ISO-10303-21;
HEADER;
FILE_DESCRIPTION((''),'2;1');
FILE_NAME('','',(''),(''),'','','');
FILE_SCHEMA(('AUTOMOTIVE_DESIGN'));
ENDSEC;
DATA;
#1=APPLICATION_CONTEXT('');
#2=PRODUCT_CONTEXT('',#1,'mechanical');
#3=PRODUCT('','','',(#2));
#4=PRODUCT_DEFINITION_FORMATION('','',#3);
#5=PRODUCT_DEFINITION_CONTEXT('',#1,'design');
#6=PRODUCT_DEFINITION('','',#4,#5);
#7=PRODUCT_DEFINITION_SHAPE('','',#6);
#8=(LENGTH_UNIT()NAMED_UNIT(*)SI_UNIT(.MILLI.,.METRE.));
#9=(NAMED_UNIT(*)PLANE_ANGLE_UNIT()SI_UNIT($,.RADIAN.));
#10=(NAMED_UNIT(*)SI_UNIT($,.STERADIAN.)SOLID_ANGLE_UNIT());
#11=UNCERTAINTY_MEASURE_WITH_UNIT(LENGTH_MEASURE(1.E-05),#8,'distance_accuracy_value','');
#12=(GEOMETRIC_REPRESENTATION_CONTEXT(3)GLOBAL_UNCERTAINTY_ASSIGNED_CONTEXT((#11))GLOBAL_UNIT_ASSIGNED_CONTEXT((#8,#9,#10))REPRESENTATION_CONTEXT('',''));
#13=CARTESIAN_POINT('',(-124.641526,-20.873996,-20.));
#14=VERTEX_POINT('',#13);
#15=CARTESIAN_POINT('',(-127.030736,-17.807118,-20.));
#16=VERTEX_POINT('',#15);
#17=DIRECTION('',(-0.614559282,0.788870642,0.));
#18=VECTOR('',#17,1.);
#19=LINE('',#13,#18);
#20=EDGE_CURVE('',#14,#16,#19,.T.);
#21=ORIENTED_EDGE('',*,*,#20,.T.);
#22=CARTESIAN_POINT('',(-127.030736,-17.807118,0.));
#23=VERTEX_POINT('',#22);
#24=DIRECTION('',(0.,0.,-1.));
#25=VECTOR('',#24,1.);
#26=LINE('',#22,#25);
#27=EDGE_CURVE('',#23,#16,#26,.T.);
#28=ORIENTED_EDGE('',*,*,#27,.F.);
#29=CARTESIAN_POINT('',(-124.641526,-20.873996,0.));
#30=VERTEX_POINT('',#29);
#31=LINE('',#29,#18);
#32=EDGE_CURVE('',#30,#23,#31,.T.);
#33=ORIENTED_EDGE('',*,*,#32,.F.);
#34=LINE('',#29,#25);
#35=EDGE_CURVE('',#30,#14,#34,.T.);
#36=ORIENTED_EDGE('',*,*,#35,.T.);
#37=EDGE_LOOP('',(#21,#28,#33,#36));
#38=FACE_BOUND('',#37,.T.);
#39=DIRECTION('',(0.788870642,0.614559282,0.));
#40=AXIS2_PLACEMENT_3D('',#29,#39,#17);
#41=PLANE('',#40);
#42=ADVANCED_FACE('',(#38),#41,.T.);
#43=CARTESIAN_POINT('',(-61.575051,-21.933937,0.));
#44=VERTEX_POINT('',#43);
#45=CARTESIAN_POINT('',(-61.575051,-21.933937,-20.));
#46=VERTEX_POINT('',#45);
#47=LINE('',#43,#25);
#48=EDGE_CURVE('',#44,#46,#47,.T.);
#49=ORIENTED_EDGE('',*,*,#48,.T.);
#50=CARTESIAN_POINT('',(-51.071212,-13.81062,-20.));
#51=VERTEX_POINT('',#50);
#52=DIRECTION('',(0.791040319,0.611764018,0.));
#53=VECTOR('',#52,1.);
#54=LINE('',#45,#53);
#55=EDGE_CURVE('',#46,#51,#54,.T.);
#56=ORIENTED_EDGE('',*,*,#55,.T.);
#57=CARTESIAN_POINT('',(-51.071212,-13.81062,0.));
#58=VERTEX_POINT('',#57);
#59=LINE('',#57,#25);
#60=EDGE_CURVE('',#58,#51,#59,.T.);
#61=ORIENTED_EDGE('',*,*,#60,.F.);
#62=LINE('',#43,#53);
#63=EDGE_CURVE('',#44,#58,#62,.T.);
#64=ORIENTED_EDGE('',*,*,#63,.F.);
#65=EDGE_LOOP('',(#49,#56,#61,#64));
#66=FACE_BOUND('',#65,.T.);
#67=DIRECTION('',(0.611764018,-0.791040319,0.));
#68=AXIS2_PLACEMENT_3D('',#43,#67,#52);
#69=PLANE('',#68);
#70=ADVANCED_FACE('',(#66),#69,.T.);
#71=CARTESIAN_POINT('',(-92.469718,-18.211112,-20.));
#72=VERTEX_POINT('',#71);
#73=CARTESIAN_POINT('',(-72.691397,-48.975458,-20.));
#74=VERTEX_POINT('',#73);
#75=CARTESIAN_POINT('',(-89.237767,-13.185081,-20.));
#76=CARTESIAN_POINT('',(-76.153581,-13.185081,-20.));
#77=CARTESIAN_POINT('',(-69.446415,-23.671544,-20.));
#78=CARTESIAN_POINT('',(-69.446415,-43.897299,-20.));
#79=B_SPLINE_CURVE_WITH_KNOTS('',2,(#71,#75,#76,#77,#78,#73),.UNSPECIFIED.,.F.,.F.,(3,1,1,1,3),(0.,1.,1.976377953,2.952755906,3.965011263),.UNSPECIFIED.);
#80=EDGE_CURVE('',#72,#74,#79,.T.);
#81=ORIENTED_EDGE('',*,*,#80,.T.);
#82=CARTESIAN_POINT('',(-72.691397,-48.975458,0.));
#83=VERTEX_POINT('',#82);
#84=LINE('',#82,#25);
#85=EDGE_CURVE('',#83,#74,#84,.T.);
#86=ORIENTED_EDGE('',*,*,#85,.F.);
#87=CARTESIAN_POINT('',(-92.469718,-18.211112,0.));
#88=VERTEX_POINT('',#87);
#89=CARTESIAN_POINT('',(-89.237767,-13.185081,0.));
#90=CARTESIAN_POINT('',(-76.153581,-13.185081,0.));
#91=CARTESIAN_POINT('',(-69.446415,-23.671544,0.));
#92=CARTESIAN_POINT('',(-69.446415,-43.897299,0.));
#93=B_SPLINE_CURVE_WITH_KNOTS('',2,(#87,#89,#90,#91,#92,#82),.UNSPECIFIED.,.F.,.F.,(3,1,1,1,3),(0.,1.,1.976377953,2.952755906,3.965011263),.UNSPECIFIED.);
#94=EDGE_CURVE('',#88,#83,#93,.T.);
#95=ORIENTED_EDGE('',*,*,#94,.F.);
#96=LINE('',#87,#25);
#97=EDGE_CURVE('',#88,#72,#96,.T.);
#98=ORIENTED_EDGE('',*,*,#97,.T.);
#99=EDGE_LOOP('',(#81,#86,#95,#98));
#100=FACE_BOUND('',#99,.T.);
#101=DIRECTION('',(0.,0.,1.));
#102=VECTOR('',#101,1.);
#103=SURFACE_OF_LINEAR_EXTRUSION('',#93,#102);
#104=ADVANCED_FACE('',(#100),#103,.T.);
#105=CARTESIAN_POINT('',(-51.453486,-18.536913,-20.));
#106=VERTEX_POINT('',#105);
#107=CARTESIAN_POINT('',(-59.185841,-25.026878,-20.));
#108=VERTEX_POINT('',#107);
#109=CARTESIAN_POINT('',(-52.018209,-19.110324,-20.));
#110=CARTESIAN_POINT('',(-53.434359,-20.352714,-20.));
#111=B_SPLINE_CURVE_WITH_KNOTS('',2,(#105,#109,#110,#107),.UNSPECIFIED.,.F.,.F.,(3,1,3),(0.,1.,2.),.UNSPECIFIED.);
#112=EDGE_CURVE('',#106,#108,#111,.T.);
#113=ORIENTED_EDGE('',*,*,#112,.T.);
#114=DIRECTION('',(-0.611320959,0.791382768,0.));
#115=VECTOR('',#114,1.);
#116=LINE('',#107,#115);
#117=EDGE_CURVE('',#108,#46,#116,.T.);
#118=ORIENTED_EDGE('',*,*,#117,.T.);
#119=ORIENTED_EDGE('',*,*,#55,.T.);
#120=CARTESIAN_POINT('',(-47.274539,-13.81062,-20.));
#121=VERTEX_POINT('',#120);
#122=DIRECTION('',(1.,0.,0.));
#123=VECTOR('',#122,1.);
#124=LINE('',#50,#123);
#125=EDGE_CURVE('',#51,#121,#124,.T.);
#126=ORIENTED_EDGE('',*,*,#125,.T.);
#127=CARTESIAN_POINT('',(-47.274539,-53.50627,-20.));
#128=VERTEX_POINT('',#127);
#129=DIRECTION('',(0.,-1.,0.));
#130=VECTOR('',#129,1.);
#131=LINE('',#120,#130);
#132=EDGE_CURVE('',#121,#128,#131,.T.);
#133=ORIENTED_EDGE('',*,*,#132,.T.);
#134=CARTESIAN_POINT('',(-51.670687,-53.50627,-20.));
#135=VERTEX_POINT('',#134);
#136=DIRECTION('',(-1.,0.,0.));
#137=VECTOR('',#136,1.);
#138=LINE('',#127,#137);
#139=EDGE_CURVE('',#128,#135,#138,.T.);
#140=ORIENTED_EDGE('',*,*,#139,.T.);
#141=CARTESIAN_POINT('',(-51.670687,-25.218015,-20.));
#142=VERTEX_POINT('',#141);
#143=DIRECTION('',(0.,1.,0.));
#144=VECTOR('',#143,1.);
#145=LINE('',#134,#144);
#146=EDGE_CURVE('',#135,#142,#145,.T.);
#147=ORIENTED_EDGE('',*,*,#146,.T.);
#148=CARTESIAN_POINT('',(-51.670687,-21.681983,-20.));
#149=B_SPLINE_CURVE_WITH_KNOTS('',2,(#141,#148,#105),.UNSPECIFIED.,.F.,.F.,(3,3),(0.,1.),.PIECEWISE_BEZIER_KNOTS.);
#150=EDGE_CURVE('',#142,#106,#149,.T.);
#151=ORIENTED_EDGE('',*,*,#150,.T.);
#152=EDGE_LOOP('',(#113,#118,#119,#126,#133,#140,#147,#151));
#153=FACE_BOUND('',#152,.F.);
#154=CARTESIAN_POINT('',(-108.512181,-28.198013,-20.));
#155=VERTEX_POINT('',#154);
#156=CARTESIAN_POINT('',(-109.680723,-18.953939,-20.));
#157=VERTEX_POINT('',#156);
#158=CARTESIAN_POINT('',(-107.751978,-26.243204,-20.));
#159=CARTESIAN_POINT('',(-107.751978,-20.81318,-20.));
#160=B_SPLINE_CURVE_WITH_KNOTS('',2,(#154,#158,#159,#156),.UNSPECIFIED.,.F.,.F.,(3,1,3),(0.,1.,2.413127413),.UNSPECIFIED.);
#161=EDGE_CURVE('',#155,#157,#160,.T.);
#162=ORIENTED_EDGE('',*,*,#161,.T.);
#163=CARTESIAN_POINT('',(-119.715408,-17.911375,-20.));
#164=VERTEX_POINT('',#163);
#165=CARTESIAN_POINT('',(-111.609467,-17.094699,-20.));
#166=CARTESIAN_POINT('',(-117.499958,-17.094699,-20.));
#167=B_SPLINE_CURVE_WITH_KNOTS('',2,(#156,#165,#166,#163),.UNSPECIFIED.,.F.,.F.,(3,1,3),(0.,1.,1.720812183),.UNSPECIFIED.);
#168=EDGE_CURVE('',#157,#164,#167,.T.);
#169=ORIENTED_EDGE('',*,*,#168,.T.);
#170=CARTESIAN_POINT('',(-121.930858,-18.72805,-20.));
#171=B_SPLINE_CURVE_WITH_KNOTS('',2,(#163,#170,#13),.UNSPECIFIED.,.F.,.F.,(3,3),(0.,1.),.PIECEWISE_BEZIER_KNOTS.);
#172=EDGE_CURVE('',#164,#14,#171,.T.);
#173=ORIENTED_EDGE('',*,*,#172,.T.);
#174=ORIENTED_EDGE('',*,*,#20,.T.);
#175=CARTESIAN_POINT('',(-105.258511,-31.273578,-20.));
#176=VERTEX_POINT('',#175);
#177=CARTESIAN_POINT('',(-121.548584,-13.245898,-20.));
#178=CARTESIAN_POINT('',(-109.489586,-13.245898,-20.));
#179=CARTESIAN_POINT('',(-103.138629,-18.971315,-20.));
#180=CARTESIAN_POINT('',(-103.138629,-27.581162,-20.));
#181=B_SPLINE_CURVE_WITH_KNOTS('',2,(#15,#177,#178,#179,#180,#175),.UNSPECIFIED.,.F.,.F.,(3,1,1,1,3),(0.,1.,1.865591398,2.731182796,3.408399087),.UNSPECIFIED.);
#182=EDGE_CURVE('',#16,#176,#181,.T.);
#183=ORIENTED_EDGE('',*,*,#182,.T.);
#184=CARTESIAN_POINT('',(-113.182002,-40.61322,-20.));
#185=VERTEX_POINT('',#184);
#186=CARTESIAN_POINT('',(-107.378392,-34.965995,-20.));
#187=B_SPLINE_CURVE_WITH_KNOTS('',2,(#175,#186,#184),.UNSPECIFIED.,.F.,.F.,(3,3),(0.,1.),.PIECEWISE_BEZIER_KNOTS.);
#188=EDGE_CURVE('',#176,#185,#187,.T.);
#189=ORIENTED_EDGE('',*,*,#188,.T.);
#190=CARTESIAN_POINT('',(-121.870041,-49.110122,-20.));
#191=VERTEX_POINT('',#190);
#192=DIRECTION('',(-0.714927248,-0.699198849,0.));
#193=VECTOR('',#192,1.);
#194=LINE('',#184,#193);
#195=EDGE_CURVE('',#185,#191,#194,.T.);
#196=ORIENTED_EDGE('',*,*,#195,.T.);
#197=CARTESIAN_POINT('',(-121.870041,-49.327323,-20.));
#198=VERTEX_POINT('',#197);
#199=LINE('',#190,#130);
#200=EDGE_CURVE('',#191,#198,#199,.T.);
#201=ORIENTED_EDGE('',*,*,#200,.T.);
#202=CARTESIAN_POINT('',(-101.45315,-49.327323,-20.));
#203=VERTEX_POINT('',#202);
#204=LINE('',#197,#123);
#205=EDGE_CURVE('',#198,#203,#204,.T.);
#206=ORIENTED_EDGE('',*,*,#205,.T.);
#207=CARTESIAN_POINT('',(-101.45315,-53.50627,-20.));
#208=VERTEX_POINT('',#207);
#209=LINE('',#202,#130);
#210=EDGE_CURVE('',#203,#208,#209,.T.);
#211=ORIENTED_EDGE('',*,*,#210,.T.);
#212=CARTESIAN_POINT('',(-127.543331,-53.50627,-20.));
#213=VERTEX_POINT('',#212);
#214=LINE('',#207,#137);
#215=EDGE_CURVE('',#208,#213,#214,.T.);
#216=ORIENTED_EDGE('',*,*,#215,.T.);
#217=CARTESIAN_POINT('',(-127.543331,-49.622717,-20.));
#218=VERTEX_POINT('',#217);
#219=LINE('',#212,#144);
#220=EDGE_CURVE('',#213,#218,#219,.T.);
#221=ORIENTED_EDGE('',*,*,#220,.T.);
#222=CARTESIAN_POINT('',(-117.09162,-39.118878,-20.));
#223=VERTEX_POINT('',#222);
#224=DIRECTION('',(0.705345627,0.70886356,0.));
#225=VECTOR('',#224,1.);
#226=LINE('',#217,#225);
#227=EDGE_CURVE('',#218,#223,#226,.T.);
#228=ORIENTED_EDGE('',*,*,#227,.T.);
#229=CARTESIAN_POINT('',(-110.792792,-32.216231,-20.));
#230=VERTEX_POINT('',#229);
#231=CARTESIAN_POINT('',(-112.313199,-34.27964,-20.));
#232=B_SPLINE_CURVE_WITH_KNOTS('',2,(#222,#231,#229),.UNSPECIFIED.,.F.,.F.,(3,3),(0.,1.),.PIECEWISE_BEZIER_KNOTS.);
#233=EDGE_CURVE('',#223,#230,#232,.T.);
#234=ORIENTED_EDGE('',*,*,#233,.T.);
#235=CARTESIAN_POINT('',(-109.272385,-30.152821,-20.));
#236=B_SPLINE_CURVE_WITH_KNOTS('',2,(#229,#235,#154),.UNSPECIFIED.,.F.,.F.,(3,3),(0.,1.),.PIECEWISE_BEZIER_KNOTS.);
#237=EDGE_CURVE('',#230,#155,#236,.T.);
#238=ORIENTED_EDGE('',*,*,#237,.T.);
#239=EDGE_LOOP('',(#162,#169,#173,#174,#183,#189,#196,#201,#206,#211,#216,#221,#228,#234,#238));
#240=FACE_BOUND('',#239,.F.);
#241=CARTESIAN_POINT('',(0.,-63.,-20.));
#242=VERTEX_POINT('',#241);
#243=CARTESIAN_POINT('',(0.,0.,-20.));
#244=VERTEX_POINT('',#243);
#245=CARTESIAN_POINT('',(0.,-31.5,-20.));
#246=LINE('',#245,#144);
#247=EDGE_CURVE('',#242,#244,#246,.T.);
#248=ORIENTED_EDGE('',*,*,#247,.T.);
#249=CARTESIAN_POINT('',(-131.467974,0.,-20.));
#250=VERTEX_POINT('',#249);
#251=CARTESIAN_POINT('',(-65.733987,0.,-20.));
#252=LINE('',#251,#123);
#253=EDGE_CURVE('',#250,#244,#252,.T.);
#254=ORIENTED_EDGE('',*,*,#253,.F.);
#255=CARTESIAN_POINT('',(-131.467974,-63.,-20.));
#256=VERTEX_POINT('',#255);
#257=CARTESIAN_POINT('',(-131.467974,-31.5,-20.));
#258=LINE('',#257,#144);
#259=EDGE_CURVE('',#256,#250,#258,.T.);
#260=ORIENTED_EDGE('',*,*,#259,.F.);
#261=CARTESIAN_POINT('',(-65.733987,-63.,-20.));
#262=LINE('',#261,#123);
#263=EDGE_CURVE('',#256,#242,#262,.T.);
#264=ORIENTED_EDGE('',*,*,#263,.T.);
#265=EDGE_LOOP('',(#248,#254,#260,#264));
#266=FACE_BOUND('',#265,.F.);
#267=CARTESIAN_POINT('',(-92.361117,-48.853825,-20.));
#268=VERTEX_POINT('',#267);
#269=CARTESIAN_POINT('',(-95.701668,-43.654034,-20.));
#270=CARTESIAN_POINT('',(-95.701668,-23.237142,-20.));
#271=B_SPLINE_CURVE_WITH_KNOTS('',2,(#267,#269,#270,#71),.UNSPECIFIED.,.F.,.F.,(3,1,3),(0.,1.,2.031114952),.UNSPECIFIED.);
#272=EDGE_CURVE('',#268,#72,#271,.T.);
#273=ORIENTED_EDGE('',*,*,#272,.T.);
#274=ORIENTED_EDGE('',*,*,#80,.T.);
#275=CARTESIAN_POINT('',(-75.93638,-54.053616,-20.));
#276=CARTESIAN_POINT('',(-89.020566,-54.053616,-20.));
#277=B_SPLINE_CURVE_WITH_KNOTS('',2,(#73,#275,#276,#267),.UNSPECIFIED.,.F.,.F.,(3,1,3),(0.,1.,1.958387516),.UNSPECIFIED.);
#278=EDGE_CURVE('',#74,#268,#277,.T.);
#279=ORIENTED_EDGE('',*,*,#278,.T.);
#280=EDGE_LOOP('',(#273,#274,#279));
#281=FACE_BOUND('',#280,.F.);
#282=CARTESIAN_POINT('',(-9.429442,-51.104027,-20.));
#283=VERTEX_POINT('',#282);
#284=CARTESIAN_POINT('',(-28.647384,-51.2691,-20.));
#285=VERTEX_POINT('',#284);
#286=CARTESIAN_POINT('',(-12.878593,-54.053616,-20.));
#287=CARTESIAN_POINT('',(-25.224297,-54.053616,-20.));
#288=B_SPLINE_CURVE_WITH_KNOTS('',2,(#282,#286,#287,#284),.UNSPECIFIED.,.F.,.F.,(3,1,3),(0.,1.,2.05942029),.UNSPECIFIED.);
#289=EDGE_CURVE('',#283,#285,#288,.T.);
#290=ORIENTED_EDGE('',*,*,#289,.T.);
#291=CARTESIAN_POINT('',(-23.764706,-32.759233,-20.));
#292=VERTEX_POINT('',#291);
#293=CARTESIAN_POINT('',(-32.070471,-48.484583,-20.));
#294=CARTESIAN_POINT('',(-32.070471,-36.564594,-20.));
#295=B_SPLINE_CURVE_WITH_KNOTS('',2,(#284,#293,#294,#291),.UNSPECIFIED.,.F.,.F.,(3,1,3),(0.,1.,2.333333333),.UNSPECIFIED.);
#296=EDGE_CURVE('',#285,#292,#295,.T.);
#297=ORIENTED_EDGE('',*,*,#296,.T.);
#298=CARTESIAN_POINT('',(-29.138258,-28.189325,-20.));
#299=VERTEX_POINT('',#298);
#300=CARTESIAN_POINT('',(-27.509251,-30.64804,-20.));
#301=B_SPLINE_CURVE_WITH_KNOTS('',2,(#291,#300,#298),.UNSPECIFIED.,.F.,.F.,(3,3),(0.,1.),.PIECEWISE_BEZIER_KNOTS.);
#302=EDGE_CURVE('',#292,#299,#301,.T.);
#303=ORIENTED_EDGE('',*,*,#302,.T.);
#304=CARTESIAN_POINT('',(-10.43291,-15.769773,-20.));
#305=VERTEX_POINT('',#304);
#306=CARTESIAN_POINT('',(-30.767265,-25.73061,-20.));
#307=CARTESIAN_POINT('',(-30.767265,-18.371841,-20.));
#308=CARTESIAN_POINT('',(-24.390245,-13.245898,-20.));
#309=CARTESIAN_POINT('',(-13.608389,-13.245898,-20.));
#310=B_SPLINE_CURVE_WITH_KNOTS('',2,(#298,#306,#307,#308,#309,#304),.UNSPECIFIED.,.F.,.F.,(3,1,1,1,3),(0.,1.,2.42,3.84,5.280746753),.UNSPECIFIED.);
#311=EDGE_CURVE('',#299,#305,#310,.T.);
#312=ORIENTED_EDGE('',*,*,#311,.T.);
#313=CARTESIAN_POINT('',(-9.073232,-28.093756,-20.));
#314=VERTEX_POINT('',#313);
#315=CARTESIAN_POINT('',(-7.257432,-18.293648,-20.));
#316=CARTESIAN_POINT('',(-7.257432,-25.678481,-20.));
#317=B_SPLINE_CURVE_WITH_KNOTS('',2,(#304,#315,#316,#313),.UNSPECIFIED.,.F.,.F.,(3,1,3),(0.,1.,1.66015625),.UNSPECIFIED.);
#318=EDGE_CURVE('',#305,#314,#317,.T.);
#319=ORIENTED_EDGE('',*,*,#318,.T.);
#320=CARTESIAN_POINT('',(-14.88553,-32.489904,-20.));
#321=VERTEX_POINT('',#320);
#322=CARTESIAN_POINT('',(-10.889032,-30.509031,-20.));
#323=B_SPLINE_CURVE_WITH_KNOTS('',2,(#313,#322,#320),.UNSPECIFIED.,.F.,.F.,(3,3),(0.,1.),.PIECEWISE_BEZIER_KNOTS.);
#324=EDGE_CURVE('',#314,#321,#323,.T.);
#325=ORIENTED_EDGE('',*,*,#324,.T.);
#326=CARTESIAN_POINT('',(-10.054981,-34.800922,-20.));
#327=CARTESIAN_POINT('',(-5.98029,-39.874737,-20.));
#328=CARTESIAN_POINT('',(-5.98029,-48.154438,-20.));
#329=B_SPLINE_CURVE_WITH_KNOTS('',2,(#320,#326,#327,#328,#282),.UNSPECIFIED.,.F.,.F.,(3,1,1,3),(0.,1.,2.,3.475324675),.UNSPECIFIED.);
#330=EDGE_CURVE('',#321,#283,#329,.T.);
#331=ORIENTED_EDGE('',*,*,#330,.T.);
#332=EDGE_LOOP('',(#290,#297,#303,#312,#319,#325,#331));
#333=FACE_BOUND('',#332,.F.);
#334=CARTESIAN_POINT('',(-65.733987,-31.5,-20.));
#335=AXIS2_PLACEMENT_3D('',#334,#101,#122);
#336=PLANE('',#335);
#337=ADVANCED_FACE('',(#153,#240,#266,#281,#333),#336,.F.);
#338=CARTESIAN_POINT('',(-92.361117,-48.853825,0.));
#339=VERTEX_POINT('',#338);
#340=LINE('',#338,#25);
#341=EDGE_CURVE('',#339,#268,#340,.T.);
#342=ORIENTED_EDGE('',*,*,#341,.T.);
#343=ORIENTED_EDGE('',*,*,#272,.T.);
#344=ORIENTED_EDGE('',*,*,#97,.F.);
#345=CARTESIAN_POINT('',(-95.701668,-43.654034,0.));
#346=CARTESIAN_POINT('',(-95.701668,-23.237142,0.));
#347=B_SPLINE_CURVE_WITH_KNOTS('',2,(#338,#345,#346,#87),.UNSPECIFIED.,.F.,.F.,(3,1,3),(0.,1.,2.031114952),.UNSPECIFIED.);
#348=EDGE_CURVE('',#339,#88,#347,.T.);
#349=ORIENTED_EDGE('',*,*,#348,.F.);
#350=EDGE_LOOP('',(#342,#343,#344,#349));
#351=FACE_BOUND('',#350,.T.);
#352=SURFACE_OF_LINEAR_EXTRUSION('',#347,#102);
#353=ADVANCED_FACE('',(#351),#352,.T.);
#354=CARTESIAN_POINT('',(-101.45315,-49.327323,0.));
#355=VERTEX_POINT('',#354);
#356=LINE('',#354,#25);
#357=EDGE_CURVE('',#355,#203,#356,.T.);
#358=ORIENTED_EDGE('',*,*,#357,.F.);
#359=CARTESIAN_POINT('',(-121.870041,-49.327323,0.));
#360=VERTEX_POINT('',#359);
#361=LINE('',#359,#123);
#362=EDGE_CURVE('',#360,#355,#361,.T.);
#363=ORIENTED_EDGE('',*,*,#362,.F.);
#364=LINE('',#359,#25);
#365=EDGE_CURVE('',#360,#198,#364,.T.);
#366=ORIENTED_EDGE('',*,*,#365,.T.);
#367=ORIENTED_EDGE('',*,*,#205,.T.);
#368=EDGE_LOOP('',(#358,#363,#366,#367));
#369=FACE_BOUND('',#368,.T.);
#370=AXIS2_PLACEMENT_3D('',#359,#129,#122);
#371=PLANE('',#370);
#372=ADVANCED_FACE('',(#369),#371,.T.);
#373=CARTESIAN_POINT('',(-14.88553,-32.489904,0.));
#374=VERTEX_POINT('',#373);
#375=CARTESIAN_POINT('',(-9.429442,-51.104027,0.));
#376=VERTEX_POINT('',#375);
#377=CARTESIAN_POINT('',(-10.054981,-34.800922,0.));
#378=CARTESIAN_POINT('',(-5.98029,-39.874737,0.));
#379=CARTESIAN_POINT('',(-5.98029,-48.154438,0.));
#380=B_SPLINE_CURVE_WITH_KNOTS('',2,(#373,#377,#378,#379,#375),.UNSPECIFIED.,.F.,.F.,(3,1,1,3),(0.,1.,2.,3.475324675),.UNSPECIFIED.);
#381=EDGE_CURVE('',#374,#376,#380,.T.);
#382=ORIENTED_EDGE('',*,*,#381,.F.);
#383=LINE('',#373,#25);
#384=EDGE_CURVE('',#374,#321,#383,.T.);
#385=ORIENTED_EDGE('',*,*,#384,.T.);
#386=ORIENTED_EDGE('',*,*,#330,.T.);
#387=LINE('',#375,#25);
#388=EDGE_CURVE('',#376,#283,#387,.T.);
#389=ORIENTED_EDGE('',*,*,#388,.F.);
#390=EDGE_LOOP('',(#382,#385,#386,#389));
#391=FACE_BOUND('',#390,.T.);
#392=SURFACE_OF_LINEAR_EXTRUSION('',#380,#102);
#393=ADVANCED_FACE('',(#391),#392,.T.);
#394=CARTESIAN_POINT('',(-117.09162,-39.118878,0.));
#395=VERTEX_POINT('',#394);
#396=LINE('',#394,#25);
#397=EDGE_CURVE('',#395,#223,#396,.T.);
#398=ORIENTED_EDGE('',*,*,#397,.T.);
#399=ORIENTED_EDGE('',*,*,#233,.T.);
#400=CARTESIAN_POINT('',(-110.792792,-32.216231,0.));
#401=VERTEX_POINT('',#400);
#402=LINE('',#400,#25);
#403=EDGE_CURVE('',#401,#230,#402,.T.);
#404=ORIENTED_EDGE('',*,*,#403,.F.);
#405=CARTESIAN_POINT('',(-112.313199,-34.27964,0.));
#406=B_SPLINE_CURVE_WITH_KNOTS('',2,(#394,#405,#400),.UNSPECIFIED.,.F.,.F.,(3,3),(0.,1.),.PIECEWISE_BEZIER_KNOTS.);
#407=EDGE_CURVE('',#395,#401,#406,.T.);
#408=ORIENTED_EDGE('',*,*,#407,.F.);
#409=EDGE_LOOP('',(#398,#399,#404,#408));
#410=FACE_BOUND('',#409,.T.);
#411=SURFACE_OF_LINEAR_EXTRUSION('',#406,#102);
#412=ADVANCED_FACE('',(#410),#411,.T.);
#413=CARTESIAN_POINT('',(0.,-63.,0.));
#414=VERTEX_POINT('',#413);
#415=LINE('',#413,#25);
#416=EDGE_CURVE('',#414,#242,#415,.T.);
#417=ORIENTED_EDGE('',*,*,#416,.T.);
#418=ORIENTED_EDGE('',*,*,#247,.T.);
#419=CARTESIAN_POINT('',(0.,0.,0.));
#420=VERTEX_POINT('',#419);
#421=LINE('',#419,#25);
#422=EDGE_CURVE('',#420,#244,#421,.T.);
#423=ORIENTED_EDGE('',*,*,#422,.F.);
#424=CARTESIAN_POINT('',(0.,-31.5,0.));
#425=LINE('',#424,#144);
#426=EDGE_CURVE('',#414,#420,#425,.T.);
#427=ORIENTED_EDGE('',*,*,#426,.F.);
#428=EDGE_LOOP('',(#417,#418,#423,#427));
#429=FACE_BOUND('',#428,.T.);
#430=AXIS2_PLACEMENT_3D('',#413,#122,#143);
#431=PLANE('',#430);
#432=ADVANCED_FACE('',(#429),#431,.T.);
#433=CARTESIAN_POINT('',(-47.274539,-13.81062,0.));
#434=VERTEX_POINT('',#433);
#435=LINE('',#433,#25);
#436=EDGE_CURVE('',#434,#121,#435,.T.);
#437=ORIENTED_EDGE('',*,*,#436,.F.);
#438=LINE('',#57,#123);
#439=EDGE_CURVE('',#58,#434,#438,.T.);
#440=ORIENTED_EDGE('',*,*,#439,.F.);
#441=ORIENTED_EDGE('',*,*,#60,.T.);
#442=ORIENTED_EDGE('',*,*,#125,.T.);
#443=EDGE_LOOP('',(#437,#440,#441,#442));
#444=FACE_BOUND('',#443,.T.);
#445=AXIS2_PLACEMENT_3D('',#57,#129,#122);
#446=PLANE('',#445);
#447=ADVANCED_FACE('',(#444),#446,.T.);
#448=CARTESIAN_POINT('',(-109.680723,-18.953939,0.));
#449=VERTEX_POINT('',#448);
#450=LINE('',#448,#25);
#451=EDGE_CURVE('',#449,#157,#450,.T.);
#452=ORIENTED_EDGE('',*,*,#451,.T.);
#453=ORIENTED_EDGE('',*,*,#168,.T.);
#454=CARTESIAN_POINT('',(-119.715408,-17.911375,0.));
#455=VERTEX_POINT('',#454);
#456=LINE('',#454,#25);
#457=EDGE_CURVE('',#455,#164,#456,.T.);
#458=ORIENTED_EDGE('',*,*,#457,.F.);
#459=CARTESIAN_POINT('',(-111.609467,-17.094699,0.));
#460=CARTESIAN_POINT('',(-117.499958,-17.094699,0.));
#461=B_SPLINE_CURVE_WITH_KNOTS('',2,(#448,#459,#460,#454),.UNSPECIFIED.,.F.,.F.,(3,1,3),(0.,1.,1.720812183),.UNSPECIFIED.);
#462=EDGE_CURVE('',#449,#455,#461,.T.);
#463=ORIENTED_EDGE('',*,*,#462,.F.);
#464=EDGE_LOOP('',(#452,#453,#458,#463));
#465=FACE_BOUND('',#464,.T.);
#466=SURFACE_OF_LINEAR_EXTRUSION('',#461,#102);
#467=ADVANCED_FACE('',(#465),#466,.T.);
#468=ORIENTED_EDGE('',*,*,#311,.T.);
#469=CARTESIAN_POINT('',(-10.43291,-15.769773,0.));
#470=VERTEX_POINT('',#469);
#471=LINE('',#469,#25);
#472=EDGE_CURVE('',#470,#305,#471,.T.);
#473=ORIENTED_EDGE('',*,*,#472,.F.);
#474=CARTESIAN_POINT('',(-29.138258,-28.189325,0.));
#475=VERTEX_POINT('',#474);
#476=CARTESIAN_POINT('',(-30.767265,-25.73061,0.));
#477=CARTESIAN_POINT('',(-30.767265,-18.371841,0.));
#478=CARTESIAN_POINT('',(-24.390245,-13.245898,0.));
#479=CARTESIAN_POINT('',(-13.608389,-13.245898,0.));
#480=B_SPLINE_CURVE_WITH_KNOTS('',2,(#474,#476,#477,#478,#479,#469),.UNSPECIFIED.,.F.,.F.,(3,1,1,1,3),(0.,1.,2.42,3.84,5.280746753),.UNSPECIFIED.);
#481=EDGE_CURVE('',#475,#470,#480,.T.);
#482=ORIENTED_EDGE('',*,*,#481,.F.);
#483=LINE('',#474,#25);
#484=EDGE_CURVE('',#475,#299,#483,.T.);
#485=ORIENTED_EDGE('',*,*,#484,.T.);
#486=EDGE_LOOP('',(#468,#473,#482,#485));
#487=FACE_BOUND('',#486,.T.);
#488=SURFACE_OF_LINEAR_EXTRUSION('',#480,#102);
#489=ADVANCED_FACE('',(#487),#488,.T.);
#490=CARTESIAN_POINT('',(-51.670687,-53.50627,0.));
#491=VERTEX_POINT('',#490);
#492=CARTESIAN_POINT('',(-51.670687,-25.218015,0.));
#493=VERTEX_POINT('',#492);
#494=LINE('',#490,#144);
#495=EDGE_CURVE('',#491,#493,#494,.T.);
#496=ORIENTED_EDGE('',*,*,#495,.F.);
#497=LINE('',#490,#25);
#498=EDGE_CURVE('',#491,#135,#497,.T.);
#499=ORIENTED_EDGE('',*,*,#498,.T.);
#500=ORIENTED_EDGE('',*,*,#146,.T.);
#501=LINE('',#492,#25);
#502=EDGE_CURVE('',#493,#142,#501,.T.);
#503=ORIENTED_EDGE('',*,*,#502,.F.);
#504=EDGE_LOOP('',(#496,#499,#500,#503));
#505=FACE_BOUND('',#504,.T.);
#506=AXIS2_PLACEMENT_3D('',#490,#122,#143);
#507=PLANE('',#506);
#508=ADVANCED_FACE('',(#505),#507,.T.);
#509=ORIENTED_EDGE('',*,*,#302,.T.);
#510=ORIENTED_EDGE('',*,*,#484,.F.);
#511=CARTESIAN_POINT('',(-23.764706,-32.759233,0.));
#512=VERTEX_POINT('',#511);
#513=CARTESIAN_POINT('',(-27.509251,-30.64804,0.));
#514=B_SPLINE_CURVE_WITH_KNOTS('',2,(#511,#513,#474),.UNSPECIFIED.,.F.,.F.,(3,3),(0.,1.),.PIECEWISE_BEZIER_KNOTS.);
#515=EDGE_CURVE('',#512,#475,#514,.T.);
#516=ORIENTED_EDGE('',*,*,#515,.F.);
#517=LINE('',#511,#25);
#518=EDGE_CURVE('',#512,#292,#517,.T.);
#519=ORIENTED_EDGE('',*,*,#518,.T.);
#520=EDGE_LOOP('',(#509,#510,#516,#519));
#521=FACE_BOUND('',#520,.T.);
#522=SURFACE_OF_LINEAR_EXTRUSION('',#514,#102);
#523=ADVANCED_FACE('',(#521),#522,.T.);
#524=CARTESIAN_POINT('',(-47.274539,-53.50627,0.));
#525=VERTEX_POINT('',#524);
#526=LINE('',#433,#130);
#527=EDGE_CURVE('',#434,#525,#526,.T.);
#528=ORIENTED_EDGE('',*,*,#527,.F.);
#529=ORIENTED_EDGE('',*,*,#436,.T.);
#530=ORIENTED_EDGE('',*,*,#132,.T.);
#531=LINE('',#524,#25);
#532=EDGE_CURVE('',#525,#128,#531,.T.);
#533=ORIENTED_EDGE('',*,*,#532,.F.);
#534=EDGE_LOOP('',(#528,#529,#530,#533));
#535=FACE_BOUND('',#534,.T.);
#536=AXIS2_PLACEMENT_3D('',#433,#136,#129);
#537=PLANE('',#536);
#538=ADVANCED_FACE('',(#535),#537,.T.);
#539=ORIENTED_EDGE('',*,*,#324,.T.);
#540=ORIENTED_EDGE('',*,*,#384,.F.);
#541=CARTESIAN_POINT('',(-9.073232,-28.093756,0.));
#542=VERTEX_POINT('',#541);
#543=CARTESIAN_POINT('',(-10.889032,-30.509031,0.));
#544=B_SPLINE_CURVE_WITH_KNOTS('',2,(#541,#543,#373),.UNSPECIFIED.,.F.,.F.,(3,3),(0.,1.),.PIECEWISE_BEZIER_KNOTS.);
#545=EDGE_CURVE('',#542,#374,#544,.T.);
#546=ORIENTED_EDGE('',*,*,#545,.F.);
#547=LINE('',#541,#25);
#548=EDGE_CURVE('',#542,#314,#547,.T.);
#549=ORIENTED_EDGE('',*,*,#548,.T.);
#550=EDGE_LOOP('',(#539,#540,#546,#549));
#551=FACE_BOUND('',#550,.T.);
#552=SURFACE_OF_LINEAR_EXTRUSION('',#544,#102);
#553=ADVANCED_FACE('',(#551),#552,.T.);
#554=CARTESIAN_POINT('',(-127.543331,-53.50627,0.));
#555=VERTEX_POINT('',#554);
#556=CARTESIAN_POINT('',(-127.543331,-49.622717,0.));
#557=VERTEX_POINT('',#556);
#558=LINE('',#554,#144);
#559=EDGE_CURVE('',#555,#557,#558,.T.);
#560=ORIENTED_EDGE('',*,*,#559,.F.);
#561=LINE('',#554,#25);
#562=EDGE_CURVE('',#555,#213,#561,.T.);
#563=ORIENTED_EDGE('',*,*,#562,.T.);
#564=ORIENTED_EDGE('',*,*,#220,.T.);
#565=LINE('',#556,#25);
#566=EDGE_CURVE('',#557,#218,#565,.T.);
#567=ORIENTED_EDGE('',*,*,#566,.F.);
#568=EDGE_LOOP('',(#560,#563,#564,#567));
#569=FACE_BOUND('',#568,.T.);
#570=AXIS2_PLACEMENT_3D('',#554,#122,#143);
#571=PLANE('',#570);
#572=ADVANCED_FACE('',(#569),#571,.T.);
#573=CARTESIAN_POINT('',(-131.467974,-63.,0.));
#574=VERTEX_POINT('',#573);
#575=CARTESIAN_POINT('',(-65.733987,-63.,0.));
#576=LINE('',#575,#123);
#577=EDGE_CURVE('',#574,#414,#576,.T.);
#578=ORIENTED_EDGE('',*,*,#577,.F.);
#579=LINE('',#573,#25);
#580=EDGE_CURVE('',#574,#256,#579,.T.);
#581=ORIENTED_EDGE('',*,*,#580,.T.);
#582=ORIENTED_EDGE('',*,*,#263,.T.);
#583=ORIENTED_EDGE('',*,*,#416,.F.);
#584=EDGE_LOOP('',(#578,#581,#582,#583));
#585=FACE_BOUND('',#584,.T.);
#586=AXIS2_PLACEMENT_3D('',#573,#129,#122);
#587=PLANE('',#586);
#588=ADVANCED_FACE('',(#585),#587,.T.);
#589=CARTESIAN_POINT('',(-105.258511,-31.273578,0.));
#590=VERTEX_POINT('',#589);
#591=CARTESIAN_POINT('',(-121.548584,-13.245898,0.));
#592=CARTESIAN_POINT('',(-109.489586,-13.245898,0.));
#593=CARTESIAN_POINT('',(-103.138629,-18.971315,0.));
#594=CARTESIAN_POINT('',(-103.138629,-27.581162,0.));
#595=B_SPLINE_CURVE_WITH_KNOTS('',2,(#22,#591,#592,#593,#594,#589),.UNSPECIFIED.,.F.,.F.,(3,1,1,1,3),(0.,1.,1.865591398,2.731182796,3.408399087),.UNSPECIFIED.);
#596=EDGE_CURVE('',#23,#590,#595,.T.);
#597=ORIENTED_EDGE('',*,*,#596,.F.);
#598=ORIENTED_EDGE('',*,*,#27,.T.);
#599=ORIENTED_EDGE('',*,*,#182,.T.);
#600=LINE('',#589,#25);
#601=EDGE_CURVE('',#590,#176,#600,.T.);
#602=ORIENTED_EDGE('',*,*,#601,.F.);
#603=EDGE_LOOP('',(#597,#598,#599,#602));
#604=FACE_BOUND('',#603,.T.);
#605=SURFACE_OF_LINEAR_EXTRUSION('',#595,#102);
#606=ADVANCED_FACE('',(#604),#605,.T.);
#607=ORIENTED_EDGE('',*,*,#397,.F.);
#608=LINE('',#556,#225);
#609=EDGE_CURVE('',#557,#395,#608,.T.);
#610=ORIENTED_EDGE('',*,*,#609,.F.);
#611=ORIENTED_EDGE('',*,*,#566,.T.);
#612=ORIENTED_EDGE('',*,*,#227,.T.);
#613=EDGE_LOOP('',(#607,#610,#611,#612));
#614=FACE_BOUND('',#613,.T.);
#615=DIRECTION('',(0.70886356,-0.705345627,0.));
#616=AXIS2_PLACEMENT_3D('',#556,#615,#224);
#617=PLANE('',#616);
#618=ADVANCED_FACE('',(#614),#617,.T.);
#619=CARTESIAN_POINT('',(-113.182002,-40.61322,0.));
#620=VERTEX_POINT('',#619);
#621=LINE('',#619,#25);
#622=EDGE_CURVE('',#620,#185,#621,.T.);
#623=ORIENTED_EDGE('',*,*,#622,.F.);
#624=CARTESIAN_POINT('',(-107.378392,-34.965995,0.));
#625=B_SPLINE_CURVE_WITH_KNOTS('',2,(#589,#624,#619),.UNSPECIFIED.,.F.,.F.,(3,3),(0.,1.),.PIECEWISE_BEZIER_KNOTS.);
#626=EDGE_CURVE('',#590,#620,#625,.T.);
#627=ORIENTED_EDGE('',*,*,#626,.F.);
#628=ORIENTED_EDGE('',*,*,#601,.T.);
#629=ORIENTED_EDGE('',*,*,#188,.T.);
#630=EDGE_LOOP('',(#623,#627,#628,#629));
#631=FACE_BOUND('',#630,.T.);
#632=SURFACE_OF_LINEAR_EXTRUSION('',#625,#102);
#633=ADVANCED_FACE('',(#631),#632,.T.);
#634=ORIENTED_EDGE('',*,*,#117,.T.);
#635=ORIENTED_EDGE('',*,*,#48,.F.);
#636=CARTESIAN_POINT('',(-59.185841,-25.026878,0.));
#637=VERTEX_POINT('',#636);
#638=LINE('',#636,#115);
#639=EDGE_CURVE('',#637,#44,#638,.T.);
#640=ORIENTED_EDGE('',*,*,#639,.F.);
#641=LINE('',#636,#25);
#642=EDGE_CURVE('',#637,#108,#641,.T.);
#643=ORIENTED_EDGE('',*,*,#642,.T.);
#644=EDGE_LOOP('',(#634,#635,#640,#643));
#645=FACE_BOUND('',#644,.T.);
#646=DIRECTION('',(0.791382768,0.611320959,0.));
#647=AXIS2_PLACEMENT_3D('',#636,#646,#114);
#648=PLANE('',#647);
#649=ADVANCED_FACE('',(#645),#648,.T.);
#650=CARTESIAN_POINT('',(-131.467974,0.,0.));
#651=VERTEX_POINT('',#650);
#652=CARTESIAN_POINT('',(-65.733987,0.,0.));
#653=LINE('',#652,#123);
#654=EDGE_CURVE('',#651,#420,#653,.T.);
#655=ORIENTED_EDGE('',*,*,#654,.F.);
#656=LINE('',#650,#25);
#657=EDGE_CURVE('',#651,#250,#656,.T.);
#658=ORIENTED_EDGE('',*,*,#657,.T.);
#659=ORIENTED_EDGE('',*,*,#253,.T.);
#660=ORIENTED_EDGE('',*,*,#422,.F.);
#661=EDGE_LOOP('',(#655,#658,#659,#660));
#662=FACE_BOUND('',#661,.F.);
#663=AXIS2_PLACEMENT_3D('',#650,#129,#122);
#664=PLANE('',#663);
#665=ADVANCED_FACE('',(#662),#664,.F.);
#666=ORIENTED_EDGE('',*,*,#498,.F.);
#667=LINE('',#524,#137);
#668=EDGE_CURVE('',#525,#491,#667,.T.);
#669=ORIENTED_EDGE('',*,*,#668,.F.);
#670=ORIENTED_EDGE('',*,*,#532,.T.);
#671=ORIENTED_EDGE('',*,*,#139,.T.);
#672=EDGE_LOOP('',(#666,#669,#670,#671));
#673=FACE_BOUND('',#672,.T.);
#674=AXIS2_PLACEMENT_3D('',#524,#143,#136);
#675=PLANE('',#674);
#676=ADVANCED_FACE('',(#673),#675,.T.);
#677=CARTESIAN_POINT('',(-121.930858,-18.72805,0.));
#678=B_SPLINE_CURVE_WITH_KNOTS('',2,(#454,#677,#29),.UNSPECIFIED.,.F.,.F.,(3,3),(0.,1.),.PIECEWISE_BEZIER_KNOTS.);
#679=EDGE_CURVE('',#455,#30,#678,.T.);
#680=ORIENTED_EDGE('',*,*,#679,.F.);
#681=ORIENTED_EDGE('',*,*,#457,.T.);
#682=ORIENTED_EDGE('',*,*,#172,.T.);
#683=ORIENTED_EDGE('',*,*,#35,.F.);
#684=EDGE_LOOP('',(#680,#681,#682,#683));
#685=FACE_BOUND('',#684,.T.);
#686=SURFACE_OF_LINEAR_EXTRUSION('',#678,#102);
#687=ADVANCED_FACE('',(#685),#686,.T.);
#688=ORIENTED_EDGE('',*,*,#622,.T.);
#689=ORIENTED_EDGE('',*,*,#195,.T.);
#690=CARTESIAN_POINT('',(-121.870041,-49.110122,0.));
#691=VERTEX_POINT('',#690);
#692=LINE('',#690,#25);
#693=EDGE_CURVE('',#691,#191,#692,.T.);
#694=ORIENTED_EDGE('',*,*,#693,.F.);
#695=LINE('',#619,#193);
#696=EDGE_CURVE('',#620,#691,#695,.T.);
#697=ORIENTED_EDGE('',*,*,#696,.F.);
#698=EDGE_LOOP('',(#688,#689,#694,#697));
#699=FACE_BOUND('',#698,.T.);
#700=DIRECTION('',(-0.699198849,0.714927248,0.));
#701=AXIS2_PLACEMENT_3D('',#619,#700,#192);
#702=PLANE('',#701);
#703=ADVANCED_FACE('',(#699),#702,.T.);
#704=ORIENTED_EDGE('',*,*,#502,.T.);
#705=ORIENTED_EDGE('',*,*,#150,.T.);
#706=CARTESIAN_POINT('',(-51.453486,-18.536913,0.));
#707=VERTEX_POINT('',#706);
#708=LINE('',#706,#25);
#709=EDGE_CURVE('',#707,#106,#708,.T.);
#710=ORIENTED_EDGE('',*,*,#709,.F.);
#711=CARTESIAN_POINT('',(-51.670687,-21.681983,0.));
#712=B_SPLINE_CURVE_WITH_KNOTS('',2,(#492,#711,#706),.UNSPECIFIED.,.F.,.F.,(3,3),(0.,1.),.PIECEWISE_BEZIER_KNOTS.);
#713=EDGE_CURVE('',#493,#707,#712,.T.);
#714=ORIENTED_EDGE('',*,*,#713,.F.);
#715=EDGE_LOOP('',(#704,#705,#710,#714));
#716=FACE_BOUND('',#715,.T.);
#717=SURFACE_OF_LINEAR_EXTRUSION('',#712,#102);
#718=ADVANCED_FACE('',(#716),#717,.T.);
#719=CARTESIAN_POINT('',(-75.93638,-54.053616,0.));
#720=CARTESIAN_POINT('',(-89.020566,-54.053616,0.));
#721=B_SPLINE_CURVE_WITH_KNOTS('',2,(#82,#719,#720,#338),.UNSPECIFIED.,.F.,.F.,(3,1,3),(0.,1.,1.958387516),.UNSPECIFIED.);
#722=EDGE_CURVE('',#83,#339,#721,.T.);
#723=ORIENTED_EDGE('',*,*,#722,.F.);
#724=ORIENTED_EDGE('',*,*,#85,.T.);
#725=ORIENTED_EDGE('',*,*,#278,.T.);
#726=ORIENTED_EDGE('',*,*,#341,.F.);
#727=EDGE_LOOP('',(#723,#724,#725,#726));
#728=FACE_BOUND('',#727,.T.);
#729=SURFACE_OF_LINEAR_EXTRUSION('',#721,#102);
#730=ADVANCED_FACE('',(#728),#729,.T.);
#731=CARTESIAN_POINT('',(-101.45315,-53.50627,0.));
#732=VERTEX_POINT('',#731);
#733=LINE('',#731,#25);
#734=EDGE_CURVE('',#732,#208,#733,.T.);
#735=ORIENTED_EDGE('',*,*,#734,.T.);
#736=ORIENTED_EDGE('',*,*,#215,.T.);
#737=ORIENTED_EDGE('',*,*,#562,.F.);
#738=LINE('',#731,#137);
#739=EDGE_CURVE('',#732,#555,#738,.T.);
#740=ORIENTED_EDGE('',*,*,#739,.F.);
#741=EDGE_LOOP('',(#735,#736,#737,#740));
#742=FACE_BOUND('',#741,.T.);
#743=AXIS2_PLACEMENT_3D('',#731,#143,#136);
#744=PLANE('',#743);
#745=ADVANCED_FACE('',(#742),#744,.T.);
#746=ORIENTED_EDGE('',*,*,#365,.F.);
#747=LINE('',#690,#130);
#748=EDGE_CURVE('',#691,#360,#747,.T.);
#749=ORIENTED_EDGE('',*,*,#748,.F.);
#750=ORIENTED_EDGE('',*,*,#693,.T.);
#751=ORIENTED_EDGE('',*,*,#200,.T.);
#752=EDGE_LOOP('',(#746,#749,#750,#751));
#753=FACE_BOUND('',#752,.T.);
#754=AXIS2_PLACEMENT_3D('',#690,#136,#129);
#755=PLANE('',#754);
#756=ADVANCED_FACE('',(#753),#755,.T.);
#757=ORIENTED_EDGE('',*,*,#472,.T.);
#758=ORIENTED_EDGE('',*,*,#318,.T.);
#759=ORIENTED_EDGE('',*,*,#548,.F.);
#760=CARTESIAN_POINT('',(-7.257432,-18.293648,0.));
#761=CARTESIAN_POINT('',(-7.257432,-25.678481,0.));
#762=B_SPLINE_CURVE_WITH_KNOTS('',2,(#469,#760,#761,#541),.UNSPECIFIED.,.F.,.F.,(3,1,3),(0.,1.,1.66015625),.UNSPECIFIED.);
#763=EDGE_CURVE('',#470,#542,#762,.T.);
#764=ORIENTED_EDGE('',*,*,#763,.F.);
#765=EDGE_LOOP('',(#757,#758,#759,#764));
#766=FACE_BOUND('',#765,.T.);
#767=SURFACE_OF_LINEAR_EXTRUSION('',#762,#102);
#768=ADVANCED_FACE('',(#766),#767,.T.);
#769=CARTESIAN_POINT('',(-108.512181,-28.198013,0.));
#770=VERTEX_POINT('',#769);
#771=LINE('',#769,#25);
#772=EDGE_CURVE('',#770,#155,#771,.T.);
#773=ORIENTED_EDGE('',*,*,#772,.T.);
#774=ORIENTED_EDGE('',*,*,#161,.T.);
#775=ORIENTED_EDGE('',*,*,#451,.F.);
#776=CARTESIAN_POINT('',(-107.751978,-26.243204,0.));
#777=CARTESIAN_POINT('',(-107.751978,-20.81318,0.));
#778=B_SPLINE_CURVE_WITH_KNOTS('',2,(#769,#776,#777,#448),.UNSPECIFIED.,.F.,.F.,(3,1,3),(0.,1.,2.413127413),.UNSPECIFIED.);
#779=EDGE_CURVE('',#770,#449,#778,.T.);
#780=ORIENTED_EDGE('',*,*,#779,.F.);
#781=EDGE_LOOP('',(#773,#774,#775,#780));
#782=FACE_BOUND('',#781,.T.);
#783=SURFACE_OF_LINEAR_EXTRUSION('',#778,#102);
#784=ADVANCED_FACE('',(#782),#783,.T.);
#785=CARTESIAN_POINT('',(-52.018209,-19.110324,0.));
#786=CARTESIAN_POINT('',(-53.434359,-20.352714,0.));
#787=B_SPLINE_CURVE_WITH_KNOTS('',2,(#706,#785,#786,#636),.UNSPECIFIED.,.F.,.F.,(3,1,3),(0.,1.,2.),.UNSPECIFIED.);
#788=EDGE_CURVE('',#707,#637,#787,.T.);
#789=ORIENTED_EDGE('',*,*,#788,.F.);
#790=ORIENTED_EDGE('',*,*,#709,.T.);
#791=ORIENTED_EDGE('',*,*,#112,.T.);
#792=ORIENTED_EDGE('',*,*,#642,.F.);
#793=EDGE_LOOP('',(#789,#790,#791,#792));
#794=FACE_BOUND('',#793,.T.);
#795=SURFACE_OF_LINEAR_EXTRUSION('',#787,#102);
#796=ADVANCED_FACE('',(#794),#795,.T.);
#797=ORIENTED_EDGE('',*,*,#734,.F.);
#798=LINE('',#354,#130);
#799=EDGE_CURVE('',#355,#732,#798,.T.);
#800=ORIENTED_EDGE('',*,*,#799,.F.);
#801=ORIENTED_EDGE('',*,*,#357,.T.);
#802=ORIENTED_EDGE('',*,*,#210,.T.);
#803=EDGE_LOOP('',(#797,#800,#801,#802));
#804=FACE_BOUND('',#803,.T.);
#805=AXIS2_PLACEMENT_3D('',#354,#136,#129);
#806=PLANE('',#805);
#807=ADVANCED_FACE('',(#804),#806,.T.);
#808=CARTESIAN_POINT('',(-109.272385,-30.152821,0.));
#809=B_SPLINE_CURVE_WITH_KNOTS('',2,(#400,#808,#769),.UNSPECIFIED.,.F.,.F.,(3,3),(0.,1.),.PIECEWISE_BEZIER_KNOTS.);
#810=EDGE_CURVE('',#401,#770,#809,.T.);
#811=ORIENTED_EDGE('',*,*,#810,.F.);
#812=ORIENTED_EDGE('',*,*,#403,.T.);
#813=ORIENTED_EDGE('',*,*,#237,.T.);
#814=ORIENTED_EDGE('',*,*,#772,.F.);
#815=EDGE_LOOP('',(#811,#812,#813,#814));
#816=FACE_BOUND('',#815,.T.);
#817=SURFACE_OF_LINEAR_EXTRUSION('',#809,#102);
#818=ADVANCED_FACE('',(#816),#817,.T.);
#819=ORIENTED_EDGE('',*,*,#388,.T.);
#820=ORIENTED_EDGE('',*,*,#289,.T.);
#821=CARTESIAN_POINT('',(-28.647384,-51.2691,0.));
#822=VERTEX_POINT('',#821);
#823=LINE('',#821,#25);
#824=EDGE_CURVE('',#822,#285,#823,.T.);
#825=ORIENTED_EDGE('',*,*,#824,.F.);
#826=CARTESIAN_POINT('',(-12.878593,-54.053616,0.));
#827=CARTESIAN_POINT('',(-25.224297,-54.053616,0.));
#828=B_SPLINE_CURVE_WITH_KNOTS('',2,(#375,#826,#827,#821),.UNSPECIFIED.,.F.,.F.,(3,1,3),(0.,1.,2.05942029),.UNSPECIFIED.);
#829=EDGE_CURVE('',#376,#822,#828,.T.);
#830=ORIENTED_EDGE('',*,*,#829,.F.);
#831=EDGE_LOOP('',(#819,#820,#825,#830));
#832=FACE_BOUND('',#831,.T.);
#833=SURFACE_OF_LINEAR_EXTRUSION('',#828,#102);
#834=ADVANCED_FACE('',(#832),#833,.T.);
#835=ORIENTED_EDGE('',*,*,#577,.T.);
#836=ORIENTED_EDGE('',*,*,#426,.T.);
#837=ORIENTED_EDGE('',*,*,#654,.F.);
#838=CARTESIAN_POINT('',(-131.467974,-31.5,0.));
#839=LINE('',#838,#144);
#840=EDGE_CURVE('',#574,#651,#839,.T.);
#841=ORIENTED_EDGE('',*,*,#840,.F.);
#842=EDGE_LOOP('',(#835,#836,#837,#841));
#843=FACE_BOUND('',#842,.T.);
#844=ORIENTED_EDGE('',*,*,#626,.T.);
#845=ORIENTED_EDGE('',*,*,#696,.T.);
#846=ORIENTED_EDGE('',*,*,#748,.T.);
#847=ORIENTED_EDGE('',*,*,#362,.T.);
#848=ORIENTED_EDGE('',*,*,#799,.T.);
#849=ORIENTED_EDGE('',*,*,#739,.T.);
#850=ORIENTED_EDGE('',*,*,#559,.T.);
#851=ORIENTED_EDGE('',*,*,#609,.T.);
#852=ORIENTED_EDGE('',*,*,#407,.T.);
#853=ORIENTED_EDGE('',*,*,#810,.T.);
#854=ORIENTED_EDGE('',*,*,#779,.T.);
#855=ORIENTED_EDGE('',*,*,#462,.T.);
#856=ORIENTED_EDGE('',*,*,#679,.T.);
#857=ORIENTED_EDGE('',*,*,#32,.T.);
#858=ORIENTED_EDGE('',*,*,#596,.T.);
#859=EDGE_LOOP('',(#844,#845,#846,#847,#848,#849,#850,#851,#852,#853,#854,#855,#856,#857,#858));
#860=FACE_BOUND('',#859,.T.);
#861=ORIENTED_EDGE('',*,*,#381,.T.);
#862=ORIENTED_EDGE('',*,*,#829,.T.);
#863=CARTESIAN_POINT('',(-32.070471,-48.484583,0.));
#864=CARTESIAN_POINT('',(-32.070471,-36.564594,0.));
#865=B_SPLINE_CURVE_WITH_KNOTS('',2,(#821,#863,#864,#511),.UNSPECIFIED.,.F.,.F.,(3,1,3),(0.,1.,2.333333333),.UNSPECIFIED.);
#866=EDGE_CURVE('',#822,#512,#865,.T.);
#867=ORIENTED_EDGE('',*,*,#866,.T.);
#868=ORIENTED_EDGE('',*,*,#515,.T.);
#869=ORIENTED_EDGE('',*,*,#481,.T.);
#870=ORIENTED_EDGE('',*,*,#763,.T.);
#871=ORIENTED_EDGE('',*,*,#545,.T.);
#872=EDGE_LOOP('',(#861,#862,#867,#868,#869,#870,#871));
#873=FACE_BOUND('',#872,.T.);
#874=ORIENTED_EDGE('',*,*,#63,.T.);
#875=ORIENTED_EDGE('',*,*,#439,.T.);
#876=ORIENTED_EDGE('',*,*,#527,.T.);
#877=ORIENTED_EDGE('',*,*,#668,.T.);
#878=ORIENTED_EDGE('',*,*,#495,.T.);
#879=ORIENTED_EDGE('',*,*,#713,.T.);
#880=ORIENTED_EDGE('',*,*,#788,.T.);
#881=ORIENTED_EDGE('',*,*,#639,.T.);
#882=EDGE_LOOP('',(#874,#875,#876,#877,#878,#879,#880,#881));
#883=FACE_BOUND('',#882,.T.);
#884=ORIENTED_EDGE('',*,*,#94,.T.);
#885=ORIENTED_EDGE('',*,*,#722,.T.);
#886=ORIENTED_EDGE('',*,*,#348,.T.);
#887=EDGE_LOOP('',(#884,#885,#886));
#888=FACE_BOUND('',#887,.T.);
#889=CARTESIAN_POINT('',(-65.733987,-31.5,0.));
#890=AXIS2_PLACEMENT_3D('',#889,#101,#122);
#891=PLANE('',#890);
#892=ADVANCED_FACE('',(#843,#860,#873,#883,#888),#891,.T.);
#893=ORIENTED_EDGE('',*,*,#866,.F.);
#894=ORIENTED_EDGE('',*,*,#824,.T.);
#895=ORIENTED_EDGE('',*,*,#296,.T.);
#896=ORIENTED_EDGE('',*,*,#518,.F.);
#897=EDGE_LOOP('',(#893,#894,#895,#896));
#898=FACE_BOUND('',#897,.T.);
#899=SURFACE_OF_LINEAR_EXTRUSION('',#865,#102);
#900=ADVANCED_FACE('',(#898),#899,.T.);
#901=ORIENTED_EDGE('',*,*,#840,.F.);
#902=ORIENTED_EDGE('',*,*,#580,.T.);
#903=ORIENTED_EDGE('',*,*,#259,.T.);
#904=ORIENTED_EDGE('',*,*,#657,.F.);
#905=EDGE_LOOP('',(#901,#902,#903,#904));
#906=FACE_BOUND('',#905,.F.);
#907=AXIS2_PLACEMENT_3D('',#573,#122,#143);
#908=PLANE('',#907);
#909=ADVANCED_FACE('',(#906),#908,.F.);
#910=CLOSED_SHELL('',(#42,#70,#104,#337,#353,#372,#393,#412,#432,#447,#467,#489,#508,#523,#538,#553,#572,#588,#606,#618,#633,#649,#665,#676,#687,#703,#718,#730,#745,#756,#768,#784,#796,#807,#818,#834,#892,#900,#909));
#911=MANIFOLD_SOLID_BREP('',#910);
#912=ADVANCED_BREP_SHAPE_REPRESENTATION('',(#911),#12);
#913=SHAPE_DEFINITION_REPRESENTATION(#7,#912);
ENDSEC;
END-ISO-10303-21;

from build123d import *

# Parameters (mm, degrees)
F0_W     = 131.467973601
F0_H     = 63
F1_DEPTH = 20


with BuildPart() as f1:
    # F0 (on Top) → F1 (new body)
    with BuildSketch(Plane.XY):
        with Locations((-65.7339868005, -31.5)):
            Rectangle(F0_W, F0_H)
        with BuildLine():
            Line((-101.4531498872, -49.3273232344), (-101.4531498872, -53.5062699422))
            Line((-101.4531498872, -53.5062699422), (-127.5433306843, -53.5062699422))
            Line((-127.5433306843, -53.5062699422), (-127.5433306843, -49.6227165568))
            Line((-127.5433306843, -49.6227165568), (-117.0916198954, -39.1188775346))
            add(Edge.make_bspline(
                [(-117.0916198954, -39.1188775346), (-112.313198504, -34.279639871), (-110.7927916977, -32.2162306338)],
                knots=[0, 0, 0, 1, 1, 1], degree=2))
            add(Edge.make_bspline(
                [(-110.7927916977, -32.2162306338), (-109.2723848913, -30.1528213966), (-108.5121814882, -28.1980126456)],
                knots=[0, 0, 0, 1, 1, 1], degree=2))
            add(Edge.make_bspline(
                [(-108.5121814882, -28.1980126456), (-107.751978085, -26.2432038945), (-107.751978085, -23.9930018211)],
                knots=[0, 0, 0, 1, 1, 1], degree=2))
            add(Edge.make_bspline(
                [(-107.751978085, -23.9930018211), (-107.751978085, -20.8131795861), (-109.6807227193, -18.9539392629)],
                knots=[0, 0, 0, 1, 1, 1], degree=2))
            add(Edge.make_bspline(
                [(-109.6807227193, -18.9539392629), (-111.6094673537, -17.0946989397), (-115.0325546777, -17.0946989397)],
                knots=[0, 0, 0, 1, 1, 1], degree=2))
            add(Edge.make_bspline(
                [(-115.0325546777, -17.0946989397), (-117.4999577234, -17.0946989397), (-119.7154076413, -17.9113745957)],
                knots=[0, 0, 0, 1, 1, 1], degree=2))
            add(Edge.make_bspline(
                [(-119.7154076413, -17.9113745957), (-121.9308575591, -18.7280502517), (-124.6415256938, -20.8739958584)],
                knots=[0, 0, 0, 1, 1, 1], degree=2))
            Line((-124.6415256938, -20.8739958584), (-127.0307363895, -17.807118129))
            add(Edge.make_bspline(
                [(-127.0307363895, -17.807118129), (-121.5485838478, -13.2458977099), (-115.084682911, -13.2458977099)],
                knots=[0, 0, 0, 1, 1, 1], degree=2))
            add(Edge.make_bspline(
                [(-115.084682911, -13.2458977099), (-109.4895858637, -13.2458977099), (-106.3141076481, -16.1086065253)],
                knots=[0, 0, 0, 1, 1, 1], degree=2))
            add(Edge.make_bspline(
                [(-106.3141076481, -16.1086065253), (-103.1386294325, -18.9713153407), (-103.1386294325, -23.8018649655)],
                knots=[0, 0, 0, 1, 1, 1], degree=2))
            add(Edge.make_bspline(
                [(-103.1386294325, -23.8018649655), (-103.1386294325, -27.5811618841), (-105.2585109226, -31.2735784139)],
                knots=[0, 0, 0, 1, 1, 1], degree=2))
            add(Edge.make_bspline(
                [(-105.2585109226, -31.2735784139), (-107.3783924126, -34.9659949436), (-113.1820023934, -40.6132202243)],
                knots=[0, 0, 0, 1, 1, 1], degree=2))
            Line((-113.1820023934, -40.6132202243), (-121.8700412868, -49.1101222621))
            Line((-121.8700412868, -49.1101222621), (-121.8700412868, -49.3273232344))
            Line((-121.8700412868, -49.3273232344), (-101.4531498872, -49.3273232344))
        make_face(mode=Mode.SUBTRACT)
        with BuildLine():
            add(Edge.make_bspline(
                [(-72.7999976166, -18.4283129099), (-69.4464146037, -23.6715443821), (-69.4464146037, -33.6019728373)],
                knots=[0, 0, 0, 1, 1, 1], degree=2))
            add(Edge.make_bspline(
                [(-69.4464146037, -33.6019728373), (-69.4464146037, -43.897298926), (-72.6913971304, -48.9754576593)],
                knots=[0, 0, 0, 1, 1, 1], degree=2))
            add(Edge.make_bspline(
                [(-72.6913971304, -48.9754576593), (-75.9363796571, -54.0536163925), (-82.6174815662, -54.0536163925)],
                knots=[0, 0, 0, 1, 1, 1], degree=2))
            add(Edge.make_bspline(
                [(-82.6174815662, -54.0536163925), (-89.0205662307, -54.0536163925), (-92.3611171852, -48.8538251148)],
                knots=[0, 0, 0, 1, 1, 1], degree=2))
            add(Edge.make_bspline(
                [(-92.3611171852, -48.8538251148), (-95.7016681398, -43.654033837), (-95.7016681398, -33.6019728373)],
                knots=[0, 0, 0, 1, 1, 1], degree=2))
            add(Edge.make_bspline(
                [(-95.7016681398, -33.6019728373), (-95.7016681398, -23.2371424374), (-92.4697176714, -18.2111119375)],
                knots=[0, 0, 0, 1, 1, 1], degree=2))
            add(Edge.make_bspline(
                [(-92.4697176714, -18.2111119375), (-89.237767203, -13.1850814377), (-82.6174815662, -13.1850814377)],
                knots=[0, 0, 0, 1, 1, 1], degree=2))
            add(Edge.make_bspline(
                [(-82.6174815662, -13.1850814377), (-76.1535806295, -13.1850814377), (-72.7999976166, -18.4283129099)],
                knots=[0, 0, 0, 1, 1, 1], degree=2))
        make_face(mode=Mode.SUBTRACT)
        with BuildLine():
            Line((-47.2745393476, -13.810620238), (-47.2745393476, -53.5062699422))
            Line((-47.2745393476, -53.5062699422), (-51.6706870277, -53.5062699422))
            Line((-51.6706870277, -53.5062699422), (-51.6706870277, -25.2180153051))
            add(Edge.make_bspline(
                [(-51.6706870277, -25.2180153051), (-51.6706870277, -21.6819834755), (-51.4534860554, -18.536913396)],
                knots=[0, 0, 0, 1, 1, 1], degree=2))
            add(Edge.make_bspline(
                [(-51.4534860554, -18.536913396), (-52.0182085835, -19.110323963), (-52.7262837533, -19.7315187439)],
                knots=[0, 0, 0, 1, 1, 1], degree=2))
            add(Edge.make_bspline(
                [(-52.7262837533, -19.7315187439), (-53.4343589231, -20.3527135248), (-59.1858406706, -25.0268784495)],
                knots=[0, 0, 0, 1, 1, 1], degree=2))
            Line((-59.1858406706, -25.0268784495), (-61.5750513663, -21.9339366034))
            Line((-61.5750513663, -21.9339366034), (-51.0712123441, -13.810620238))
            Line((-51.0712123441, -13.810620238), (-47.2745393476, -13.810620238))
        make_face(mode=Mode.SUBTRACT)
        with BuildLine():
            add(Edge.make_bspline(
                [(-27.5787551762, -15.8088691835), (-24.3902449023, -13.2458977099), (-19.0384129439, -13.2458977099)],
                knots=[0, 0, 0, 1, 1, 1], degree=2))
            add(Edge.make_bspline(
                [(-19.0384129439, -13.2458977099), (-13.6083886355, -13.2458977099), (-10.43291042, -15.7697730085)],
                knots=[0, 0, 0, 1, 1, 1], degree=2))
            add(Edge.make_bspline(
                [(-10.43291042, -15.7697730085), (-7.2574322044, -18.293648307), (-7.2574322044, -22.7419242205)],
                knots=[0, 0, 0, 1, 1, 1], degree=2))
            add(Edge.make_bspline(
                [(-7.2574322044, -22.7419242205), (-7.2574322044, -25.6784813665), (-9.0732323331, -28.0937561788)],
                knots=[0, 0, 0, 1, 1, 1], degree=2))
            add(Edge.make_bspline(
                [(-9.0732323331, -28.0937561788), (-10.8890324619, -30.5090309912), (-14.8855303528, -32.4899038589)],
                knots=[0, 0, 0, 1, 1, 1], degree=2))
            add(Edge.make_bspline(
                [(-14.8855303528, -32.4899038589), (-10.0549807281, -34.8009222046), (-8.0176356076, -37.3378295615)],
                knots=[0, 0, 0, 1, 1, 1], degree=2))
            add(Edge.make_bspline(
                [(-8.0176356076, -37.3378295615), (-5.9802904871, -39.8747369184), (-5.9802904871, -43.2196318924)],
                knots=[0, 0, 0, 1, 1, 1], degree=2))
            add(Edge.make_bspline(
                [(-5.9802904871, -43.2196318924), (-5.9802904871, -48.1544379838), (-9.4294419278, -51.1040271882)],
                knots=[0, 0, 0, 1, 1, 1], degree=2))
            add(Edge.make_bspline(
                [(-9.4294419278, -51.1040271882), (-12.8785933685, -54.0536163925), (-18.8733402049, -54.0536163925)],
                knots=[0, 0, 0, 1, 1, 1], degree=2))
            add(Edge.make_bspline(
                [(-18.8733402049, -54.0536163925), (-25.2242966361, -54.0536163925), (-28.6473839601, -51.2690999271)],
                knots=[0, 0, 0, 1, 1, 1], degree=2))
            add(Edge.make_bspline(
                [(-28.6473839601, -51.2690999271), (-32.0704712841, -48.4845834618), (-32.0704712841, -43.3760165924)],
                knots=[0, 0, 0, 1, 1, 1], degree=2))
            add(Edge.make_bspline(
                [(-32.0704712841, -43.3760165924), (-32.0704712841, -36.5645941), (-23.764706102, -32.7592330646)],
                knots=[0, 0, 0, 1, 1, 1], degree=2))
            add(Edge.make_bspline(
                [(-23.764706102, -32.7592330646), (-27.509250865, -30.6480396135), (-29.1382581576, -28.1893246067)],
                knots=[0, 0, 0, 1, 1, 1], degree=2))
            add(Edge.make_bspline(
                [(-29.1382581576, -28.1893246067), (-30.7672654501, -25.7306095998), (-30.7672654501, -22.6897959871)],
                knots=[0, 0, 0, 1, 1, 1], degree=2))
            add(Edge.make_bspline(
                [(-30.7672654501, -22.6897959871), (-30.7672654501, -18.3718406571), (-27.5787551762, -15.8088691835)],
                knots=[0, 0, 0, 1, 1, 1], degree=2))
        make_face(mode=Mode.SUBTRACT)
    extrude(amount=-F1_DEPTH)


solid = f1.part
